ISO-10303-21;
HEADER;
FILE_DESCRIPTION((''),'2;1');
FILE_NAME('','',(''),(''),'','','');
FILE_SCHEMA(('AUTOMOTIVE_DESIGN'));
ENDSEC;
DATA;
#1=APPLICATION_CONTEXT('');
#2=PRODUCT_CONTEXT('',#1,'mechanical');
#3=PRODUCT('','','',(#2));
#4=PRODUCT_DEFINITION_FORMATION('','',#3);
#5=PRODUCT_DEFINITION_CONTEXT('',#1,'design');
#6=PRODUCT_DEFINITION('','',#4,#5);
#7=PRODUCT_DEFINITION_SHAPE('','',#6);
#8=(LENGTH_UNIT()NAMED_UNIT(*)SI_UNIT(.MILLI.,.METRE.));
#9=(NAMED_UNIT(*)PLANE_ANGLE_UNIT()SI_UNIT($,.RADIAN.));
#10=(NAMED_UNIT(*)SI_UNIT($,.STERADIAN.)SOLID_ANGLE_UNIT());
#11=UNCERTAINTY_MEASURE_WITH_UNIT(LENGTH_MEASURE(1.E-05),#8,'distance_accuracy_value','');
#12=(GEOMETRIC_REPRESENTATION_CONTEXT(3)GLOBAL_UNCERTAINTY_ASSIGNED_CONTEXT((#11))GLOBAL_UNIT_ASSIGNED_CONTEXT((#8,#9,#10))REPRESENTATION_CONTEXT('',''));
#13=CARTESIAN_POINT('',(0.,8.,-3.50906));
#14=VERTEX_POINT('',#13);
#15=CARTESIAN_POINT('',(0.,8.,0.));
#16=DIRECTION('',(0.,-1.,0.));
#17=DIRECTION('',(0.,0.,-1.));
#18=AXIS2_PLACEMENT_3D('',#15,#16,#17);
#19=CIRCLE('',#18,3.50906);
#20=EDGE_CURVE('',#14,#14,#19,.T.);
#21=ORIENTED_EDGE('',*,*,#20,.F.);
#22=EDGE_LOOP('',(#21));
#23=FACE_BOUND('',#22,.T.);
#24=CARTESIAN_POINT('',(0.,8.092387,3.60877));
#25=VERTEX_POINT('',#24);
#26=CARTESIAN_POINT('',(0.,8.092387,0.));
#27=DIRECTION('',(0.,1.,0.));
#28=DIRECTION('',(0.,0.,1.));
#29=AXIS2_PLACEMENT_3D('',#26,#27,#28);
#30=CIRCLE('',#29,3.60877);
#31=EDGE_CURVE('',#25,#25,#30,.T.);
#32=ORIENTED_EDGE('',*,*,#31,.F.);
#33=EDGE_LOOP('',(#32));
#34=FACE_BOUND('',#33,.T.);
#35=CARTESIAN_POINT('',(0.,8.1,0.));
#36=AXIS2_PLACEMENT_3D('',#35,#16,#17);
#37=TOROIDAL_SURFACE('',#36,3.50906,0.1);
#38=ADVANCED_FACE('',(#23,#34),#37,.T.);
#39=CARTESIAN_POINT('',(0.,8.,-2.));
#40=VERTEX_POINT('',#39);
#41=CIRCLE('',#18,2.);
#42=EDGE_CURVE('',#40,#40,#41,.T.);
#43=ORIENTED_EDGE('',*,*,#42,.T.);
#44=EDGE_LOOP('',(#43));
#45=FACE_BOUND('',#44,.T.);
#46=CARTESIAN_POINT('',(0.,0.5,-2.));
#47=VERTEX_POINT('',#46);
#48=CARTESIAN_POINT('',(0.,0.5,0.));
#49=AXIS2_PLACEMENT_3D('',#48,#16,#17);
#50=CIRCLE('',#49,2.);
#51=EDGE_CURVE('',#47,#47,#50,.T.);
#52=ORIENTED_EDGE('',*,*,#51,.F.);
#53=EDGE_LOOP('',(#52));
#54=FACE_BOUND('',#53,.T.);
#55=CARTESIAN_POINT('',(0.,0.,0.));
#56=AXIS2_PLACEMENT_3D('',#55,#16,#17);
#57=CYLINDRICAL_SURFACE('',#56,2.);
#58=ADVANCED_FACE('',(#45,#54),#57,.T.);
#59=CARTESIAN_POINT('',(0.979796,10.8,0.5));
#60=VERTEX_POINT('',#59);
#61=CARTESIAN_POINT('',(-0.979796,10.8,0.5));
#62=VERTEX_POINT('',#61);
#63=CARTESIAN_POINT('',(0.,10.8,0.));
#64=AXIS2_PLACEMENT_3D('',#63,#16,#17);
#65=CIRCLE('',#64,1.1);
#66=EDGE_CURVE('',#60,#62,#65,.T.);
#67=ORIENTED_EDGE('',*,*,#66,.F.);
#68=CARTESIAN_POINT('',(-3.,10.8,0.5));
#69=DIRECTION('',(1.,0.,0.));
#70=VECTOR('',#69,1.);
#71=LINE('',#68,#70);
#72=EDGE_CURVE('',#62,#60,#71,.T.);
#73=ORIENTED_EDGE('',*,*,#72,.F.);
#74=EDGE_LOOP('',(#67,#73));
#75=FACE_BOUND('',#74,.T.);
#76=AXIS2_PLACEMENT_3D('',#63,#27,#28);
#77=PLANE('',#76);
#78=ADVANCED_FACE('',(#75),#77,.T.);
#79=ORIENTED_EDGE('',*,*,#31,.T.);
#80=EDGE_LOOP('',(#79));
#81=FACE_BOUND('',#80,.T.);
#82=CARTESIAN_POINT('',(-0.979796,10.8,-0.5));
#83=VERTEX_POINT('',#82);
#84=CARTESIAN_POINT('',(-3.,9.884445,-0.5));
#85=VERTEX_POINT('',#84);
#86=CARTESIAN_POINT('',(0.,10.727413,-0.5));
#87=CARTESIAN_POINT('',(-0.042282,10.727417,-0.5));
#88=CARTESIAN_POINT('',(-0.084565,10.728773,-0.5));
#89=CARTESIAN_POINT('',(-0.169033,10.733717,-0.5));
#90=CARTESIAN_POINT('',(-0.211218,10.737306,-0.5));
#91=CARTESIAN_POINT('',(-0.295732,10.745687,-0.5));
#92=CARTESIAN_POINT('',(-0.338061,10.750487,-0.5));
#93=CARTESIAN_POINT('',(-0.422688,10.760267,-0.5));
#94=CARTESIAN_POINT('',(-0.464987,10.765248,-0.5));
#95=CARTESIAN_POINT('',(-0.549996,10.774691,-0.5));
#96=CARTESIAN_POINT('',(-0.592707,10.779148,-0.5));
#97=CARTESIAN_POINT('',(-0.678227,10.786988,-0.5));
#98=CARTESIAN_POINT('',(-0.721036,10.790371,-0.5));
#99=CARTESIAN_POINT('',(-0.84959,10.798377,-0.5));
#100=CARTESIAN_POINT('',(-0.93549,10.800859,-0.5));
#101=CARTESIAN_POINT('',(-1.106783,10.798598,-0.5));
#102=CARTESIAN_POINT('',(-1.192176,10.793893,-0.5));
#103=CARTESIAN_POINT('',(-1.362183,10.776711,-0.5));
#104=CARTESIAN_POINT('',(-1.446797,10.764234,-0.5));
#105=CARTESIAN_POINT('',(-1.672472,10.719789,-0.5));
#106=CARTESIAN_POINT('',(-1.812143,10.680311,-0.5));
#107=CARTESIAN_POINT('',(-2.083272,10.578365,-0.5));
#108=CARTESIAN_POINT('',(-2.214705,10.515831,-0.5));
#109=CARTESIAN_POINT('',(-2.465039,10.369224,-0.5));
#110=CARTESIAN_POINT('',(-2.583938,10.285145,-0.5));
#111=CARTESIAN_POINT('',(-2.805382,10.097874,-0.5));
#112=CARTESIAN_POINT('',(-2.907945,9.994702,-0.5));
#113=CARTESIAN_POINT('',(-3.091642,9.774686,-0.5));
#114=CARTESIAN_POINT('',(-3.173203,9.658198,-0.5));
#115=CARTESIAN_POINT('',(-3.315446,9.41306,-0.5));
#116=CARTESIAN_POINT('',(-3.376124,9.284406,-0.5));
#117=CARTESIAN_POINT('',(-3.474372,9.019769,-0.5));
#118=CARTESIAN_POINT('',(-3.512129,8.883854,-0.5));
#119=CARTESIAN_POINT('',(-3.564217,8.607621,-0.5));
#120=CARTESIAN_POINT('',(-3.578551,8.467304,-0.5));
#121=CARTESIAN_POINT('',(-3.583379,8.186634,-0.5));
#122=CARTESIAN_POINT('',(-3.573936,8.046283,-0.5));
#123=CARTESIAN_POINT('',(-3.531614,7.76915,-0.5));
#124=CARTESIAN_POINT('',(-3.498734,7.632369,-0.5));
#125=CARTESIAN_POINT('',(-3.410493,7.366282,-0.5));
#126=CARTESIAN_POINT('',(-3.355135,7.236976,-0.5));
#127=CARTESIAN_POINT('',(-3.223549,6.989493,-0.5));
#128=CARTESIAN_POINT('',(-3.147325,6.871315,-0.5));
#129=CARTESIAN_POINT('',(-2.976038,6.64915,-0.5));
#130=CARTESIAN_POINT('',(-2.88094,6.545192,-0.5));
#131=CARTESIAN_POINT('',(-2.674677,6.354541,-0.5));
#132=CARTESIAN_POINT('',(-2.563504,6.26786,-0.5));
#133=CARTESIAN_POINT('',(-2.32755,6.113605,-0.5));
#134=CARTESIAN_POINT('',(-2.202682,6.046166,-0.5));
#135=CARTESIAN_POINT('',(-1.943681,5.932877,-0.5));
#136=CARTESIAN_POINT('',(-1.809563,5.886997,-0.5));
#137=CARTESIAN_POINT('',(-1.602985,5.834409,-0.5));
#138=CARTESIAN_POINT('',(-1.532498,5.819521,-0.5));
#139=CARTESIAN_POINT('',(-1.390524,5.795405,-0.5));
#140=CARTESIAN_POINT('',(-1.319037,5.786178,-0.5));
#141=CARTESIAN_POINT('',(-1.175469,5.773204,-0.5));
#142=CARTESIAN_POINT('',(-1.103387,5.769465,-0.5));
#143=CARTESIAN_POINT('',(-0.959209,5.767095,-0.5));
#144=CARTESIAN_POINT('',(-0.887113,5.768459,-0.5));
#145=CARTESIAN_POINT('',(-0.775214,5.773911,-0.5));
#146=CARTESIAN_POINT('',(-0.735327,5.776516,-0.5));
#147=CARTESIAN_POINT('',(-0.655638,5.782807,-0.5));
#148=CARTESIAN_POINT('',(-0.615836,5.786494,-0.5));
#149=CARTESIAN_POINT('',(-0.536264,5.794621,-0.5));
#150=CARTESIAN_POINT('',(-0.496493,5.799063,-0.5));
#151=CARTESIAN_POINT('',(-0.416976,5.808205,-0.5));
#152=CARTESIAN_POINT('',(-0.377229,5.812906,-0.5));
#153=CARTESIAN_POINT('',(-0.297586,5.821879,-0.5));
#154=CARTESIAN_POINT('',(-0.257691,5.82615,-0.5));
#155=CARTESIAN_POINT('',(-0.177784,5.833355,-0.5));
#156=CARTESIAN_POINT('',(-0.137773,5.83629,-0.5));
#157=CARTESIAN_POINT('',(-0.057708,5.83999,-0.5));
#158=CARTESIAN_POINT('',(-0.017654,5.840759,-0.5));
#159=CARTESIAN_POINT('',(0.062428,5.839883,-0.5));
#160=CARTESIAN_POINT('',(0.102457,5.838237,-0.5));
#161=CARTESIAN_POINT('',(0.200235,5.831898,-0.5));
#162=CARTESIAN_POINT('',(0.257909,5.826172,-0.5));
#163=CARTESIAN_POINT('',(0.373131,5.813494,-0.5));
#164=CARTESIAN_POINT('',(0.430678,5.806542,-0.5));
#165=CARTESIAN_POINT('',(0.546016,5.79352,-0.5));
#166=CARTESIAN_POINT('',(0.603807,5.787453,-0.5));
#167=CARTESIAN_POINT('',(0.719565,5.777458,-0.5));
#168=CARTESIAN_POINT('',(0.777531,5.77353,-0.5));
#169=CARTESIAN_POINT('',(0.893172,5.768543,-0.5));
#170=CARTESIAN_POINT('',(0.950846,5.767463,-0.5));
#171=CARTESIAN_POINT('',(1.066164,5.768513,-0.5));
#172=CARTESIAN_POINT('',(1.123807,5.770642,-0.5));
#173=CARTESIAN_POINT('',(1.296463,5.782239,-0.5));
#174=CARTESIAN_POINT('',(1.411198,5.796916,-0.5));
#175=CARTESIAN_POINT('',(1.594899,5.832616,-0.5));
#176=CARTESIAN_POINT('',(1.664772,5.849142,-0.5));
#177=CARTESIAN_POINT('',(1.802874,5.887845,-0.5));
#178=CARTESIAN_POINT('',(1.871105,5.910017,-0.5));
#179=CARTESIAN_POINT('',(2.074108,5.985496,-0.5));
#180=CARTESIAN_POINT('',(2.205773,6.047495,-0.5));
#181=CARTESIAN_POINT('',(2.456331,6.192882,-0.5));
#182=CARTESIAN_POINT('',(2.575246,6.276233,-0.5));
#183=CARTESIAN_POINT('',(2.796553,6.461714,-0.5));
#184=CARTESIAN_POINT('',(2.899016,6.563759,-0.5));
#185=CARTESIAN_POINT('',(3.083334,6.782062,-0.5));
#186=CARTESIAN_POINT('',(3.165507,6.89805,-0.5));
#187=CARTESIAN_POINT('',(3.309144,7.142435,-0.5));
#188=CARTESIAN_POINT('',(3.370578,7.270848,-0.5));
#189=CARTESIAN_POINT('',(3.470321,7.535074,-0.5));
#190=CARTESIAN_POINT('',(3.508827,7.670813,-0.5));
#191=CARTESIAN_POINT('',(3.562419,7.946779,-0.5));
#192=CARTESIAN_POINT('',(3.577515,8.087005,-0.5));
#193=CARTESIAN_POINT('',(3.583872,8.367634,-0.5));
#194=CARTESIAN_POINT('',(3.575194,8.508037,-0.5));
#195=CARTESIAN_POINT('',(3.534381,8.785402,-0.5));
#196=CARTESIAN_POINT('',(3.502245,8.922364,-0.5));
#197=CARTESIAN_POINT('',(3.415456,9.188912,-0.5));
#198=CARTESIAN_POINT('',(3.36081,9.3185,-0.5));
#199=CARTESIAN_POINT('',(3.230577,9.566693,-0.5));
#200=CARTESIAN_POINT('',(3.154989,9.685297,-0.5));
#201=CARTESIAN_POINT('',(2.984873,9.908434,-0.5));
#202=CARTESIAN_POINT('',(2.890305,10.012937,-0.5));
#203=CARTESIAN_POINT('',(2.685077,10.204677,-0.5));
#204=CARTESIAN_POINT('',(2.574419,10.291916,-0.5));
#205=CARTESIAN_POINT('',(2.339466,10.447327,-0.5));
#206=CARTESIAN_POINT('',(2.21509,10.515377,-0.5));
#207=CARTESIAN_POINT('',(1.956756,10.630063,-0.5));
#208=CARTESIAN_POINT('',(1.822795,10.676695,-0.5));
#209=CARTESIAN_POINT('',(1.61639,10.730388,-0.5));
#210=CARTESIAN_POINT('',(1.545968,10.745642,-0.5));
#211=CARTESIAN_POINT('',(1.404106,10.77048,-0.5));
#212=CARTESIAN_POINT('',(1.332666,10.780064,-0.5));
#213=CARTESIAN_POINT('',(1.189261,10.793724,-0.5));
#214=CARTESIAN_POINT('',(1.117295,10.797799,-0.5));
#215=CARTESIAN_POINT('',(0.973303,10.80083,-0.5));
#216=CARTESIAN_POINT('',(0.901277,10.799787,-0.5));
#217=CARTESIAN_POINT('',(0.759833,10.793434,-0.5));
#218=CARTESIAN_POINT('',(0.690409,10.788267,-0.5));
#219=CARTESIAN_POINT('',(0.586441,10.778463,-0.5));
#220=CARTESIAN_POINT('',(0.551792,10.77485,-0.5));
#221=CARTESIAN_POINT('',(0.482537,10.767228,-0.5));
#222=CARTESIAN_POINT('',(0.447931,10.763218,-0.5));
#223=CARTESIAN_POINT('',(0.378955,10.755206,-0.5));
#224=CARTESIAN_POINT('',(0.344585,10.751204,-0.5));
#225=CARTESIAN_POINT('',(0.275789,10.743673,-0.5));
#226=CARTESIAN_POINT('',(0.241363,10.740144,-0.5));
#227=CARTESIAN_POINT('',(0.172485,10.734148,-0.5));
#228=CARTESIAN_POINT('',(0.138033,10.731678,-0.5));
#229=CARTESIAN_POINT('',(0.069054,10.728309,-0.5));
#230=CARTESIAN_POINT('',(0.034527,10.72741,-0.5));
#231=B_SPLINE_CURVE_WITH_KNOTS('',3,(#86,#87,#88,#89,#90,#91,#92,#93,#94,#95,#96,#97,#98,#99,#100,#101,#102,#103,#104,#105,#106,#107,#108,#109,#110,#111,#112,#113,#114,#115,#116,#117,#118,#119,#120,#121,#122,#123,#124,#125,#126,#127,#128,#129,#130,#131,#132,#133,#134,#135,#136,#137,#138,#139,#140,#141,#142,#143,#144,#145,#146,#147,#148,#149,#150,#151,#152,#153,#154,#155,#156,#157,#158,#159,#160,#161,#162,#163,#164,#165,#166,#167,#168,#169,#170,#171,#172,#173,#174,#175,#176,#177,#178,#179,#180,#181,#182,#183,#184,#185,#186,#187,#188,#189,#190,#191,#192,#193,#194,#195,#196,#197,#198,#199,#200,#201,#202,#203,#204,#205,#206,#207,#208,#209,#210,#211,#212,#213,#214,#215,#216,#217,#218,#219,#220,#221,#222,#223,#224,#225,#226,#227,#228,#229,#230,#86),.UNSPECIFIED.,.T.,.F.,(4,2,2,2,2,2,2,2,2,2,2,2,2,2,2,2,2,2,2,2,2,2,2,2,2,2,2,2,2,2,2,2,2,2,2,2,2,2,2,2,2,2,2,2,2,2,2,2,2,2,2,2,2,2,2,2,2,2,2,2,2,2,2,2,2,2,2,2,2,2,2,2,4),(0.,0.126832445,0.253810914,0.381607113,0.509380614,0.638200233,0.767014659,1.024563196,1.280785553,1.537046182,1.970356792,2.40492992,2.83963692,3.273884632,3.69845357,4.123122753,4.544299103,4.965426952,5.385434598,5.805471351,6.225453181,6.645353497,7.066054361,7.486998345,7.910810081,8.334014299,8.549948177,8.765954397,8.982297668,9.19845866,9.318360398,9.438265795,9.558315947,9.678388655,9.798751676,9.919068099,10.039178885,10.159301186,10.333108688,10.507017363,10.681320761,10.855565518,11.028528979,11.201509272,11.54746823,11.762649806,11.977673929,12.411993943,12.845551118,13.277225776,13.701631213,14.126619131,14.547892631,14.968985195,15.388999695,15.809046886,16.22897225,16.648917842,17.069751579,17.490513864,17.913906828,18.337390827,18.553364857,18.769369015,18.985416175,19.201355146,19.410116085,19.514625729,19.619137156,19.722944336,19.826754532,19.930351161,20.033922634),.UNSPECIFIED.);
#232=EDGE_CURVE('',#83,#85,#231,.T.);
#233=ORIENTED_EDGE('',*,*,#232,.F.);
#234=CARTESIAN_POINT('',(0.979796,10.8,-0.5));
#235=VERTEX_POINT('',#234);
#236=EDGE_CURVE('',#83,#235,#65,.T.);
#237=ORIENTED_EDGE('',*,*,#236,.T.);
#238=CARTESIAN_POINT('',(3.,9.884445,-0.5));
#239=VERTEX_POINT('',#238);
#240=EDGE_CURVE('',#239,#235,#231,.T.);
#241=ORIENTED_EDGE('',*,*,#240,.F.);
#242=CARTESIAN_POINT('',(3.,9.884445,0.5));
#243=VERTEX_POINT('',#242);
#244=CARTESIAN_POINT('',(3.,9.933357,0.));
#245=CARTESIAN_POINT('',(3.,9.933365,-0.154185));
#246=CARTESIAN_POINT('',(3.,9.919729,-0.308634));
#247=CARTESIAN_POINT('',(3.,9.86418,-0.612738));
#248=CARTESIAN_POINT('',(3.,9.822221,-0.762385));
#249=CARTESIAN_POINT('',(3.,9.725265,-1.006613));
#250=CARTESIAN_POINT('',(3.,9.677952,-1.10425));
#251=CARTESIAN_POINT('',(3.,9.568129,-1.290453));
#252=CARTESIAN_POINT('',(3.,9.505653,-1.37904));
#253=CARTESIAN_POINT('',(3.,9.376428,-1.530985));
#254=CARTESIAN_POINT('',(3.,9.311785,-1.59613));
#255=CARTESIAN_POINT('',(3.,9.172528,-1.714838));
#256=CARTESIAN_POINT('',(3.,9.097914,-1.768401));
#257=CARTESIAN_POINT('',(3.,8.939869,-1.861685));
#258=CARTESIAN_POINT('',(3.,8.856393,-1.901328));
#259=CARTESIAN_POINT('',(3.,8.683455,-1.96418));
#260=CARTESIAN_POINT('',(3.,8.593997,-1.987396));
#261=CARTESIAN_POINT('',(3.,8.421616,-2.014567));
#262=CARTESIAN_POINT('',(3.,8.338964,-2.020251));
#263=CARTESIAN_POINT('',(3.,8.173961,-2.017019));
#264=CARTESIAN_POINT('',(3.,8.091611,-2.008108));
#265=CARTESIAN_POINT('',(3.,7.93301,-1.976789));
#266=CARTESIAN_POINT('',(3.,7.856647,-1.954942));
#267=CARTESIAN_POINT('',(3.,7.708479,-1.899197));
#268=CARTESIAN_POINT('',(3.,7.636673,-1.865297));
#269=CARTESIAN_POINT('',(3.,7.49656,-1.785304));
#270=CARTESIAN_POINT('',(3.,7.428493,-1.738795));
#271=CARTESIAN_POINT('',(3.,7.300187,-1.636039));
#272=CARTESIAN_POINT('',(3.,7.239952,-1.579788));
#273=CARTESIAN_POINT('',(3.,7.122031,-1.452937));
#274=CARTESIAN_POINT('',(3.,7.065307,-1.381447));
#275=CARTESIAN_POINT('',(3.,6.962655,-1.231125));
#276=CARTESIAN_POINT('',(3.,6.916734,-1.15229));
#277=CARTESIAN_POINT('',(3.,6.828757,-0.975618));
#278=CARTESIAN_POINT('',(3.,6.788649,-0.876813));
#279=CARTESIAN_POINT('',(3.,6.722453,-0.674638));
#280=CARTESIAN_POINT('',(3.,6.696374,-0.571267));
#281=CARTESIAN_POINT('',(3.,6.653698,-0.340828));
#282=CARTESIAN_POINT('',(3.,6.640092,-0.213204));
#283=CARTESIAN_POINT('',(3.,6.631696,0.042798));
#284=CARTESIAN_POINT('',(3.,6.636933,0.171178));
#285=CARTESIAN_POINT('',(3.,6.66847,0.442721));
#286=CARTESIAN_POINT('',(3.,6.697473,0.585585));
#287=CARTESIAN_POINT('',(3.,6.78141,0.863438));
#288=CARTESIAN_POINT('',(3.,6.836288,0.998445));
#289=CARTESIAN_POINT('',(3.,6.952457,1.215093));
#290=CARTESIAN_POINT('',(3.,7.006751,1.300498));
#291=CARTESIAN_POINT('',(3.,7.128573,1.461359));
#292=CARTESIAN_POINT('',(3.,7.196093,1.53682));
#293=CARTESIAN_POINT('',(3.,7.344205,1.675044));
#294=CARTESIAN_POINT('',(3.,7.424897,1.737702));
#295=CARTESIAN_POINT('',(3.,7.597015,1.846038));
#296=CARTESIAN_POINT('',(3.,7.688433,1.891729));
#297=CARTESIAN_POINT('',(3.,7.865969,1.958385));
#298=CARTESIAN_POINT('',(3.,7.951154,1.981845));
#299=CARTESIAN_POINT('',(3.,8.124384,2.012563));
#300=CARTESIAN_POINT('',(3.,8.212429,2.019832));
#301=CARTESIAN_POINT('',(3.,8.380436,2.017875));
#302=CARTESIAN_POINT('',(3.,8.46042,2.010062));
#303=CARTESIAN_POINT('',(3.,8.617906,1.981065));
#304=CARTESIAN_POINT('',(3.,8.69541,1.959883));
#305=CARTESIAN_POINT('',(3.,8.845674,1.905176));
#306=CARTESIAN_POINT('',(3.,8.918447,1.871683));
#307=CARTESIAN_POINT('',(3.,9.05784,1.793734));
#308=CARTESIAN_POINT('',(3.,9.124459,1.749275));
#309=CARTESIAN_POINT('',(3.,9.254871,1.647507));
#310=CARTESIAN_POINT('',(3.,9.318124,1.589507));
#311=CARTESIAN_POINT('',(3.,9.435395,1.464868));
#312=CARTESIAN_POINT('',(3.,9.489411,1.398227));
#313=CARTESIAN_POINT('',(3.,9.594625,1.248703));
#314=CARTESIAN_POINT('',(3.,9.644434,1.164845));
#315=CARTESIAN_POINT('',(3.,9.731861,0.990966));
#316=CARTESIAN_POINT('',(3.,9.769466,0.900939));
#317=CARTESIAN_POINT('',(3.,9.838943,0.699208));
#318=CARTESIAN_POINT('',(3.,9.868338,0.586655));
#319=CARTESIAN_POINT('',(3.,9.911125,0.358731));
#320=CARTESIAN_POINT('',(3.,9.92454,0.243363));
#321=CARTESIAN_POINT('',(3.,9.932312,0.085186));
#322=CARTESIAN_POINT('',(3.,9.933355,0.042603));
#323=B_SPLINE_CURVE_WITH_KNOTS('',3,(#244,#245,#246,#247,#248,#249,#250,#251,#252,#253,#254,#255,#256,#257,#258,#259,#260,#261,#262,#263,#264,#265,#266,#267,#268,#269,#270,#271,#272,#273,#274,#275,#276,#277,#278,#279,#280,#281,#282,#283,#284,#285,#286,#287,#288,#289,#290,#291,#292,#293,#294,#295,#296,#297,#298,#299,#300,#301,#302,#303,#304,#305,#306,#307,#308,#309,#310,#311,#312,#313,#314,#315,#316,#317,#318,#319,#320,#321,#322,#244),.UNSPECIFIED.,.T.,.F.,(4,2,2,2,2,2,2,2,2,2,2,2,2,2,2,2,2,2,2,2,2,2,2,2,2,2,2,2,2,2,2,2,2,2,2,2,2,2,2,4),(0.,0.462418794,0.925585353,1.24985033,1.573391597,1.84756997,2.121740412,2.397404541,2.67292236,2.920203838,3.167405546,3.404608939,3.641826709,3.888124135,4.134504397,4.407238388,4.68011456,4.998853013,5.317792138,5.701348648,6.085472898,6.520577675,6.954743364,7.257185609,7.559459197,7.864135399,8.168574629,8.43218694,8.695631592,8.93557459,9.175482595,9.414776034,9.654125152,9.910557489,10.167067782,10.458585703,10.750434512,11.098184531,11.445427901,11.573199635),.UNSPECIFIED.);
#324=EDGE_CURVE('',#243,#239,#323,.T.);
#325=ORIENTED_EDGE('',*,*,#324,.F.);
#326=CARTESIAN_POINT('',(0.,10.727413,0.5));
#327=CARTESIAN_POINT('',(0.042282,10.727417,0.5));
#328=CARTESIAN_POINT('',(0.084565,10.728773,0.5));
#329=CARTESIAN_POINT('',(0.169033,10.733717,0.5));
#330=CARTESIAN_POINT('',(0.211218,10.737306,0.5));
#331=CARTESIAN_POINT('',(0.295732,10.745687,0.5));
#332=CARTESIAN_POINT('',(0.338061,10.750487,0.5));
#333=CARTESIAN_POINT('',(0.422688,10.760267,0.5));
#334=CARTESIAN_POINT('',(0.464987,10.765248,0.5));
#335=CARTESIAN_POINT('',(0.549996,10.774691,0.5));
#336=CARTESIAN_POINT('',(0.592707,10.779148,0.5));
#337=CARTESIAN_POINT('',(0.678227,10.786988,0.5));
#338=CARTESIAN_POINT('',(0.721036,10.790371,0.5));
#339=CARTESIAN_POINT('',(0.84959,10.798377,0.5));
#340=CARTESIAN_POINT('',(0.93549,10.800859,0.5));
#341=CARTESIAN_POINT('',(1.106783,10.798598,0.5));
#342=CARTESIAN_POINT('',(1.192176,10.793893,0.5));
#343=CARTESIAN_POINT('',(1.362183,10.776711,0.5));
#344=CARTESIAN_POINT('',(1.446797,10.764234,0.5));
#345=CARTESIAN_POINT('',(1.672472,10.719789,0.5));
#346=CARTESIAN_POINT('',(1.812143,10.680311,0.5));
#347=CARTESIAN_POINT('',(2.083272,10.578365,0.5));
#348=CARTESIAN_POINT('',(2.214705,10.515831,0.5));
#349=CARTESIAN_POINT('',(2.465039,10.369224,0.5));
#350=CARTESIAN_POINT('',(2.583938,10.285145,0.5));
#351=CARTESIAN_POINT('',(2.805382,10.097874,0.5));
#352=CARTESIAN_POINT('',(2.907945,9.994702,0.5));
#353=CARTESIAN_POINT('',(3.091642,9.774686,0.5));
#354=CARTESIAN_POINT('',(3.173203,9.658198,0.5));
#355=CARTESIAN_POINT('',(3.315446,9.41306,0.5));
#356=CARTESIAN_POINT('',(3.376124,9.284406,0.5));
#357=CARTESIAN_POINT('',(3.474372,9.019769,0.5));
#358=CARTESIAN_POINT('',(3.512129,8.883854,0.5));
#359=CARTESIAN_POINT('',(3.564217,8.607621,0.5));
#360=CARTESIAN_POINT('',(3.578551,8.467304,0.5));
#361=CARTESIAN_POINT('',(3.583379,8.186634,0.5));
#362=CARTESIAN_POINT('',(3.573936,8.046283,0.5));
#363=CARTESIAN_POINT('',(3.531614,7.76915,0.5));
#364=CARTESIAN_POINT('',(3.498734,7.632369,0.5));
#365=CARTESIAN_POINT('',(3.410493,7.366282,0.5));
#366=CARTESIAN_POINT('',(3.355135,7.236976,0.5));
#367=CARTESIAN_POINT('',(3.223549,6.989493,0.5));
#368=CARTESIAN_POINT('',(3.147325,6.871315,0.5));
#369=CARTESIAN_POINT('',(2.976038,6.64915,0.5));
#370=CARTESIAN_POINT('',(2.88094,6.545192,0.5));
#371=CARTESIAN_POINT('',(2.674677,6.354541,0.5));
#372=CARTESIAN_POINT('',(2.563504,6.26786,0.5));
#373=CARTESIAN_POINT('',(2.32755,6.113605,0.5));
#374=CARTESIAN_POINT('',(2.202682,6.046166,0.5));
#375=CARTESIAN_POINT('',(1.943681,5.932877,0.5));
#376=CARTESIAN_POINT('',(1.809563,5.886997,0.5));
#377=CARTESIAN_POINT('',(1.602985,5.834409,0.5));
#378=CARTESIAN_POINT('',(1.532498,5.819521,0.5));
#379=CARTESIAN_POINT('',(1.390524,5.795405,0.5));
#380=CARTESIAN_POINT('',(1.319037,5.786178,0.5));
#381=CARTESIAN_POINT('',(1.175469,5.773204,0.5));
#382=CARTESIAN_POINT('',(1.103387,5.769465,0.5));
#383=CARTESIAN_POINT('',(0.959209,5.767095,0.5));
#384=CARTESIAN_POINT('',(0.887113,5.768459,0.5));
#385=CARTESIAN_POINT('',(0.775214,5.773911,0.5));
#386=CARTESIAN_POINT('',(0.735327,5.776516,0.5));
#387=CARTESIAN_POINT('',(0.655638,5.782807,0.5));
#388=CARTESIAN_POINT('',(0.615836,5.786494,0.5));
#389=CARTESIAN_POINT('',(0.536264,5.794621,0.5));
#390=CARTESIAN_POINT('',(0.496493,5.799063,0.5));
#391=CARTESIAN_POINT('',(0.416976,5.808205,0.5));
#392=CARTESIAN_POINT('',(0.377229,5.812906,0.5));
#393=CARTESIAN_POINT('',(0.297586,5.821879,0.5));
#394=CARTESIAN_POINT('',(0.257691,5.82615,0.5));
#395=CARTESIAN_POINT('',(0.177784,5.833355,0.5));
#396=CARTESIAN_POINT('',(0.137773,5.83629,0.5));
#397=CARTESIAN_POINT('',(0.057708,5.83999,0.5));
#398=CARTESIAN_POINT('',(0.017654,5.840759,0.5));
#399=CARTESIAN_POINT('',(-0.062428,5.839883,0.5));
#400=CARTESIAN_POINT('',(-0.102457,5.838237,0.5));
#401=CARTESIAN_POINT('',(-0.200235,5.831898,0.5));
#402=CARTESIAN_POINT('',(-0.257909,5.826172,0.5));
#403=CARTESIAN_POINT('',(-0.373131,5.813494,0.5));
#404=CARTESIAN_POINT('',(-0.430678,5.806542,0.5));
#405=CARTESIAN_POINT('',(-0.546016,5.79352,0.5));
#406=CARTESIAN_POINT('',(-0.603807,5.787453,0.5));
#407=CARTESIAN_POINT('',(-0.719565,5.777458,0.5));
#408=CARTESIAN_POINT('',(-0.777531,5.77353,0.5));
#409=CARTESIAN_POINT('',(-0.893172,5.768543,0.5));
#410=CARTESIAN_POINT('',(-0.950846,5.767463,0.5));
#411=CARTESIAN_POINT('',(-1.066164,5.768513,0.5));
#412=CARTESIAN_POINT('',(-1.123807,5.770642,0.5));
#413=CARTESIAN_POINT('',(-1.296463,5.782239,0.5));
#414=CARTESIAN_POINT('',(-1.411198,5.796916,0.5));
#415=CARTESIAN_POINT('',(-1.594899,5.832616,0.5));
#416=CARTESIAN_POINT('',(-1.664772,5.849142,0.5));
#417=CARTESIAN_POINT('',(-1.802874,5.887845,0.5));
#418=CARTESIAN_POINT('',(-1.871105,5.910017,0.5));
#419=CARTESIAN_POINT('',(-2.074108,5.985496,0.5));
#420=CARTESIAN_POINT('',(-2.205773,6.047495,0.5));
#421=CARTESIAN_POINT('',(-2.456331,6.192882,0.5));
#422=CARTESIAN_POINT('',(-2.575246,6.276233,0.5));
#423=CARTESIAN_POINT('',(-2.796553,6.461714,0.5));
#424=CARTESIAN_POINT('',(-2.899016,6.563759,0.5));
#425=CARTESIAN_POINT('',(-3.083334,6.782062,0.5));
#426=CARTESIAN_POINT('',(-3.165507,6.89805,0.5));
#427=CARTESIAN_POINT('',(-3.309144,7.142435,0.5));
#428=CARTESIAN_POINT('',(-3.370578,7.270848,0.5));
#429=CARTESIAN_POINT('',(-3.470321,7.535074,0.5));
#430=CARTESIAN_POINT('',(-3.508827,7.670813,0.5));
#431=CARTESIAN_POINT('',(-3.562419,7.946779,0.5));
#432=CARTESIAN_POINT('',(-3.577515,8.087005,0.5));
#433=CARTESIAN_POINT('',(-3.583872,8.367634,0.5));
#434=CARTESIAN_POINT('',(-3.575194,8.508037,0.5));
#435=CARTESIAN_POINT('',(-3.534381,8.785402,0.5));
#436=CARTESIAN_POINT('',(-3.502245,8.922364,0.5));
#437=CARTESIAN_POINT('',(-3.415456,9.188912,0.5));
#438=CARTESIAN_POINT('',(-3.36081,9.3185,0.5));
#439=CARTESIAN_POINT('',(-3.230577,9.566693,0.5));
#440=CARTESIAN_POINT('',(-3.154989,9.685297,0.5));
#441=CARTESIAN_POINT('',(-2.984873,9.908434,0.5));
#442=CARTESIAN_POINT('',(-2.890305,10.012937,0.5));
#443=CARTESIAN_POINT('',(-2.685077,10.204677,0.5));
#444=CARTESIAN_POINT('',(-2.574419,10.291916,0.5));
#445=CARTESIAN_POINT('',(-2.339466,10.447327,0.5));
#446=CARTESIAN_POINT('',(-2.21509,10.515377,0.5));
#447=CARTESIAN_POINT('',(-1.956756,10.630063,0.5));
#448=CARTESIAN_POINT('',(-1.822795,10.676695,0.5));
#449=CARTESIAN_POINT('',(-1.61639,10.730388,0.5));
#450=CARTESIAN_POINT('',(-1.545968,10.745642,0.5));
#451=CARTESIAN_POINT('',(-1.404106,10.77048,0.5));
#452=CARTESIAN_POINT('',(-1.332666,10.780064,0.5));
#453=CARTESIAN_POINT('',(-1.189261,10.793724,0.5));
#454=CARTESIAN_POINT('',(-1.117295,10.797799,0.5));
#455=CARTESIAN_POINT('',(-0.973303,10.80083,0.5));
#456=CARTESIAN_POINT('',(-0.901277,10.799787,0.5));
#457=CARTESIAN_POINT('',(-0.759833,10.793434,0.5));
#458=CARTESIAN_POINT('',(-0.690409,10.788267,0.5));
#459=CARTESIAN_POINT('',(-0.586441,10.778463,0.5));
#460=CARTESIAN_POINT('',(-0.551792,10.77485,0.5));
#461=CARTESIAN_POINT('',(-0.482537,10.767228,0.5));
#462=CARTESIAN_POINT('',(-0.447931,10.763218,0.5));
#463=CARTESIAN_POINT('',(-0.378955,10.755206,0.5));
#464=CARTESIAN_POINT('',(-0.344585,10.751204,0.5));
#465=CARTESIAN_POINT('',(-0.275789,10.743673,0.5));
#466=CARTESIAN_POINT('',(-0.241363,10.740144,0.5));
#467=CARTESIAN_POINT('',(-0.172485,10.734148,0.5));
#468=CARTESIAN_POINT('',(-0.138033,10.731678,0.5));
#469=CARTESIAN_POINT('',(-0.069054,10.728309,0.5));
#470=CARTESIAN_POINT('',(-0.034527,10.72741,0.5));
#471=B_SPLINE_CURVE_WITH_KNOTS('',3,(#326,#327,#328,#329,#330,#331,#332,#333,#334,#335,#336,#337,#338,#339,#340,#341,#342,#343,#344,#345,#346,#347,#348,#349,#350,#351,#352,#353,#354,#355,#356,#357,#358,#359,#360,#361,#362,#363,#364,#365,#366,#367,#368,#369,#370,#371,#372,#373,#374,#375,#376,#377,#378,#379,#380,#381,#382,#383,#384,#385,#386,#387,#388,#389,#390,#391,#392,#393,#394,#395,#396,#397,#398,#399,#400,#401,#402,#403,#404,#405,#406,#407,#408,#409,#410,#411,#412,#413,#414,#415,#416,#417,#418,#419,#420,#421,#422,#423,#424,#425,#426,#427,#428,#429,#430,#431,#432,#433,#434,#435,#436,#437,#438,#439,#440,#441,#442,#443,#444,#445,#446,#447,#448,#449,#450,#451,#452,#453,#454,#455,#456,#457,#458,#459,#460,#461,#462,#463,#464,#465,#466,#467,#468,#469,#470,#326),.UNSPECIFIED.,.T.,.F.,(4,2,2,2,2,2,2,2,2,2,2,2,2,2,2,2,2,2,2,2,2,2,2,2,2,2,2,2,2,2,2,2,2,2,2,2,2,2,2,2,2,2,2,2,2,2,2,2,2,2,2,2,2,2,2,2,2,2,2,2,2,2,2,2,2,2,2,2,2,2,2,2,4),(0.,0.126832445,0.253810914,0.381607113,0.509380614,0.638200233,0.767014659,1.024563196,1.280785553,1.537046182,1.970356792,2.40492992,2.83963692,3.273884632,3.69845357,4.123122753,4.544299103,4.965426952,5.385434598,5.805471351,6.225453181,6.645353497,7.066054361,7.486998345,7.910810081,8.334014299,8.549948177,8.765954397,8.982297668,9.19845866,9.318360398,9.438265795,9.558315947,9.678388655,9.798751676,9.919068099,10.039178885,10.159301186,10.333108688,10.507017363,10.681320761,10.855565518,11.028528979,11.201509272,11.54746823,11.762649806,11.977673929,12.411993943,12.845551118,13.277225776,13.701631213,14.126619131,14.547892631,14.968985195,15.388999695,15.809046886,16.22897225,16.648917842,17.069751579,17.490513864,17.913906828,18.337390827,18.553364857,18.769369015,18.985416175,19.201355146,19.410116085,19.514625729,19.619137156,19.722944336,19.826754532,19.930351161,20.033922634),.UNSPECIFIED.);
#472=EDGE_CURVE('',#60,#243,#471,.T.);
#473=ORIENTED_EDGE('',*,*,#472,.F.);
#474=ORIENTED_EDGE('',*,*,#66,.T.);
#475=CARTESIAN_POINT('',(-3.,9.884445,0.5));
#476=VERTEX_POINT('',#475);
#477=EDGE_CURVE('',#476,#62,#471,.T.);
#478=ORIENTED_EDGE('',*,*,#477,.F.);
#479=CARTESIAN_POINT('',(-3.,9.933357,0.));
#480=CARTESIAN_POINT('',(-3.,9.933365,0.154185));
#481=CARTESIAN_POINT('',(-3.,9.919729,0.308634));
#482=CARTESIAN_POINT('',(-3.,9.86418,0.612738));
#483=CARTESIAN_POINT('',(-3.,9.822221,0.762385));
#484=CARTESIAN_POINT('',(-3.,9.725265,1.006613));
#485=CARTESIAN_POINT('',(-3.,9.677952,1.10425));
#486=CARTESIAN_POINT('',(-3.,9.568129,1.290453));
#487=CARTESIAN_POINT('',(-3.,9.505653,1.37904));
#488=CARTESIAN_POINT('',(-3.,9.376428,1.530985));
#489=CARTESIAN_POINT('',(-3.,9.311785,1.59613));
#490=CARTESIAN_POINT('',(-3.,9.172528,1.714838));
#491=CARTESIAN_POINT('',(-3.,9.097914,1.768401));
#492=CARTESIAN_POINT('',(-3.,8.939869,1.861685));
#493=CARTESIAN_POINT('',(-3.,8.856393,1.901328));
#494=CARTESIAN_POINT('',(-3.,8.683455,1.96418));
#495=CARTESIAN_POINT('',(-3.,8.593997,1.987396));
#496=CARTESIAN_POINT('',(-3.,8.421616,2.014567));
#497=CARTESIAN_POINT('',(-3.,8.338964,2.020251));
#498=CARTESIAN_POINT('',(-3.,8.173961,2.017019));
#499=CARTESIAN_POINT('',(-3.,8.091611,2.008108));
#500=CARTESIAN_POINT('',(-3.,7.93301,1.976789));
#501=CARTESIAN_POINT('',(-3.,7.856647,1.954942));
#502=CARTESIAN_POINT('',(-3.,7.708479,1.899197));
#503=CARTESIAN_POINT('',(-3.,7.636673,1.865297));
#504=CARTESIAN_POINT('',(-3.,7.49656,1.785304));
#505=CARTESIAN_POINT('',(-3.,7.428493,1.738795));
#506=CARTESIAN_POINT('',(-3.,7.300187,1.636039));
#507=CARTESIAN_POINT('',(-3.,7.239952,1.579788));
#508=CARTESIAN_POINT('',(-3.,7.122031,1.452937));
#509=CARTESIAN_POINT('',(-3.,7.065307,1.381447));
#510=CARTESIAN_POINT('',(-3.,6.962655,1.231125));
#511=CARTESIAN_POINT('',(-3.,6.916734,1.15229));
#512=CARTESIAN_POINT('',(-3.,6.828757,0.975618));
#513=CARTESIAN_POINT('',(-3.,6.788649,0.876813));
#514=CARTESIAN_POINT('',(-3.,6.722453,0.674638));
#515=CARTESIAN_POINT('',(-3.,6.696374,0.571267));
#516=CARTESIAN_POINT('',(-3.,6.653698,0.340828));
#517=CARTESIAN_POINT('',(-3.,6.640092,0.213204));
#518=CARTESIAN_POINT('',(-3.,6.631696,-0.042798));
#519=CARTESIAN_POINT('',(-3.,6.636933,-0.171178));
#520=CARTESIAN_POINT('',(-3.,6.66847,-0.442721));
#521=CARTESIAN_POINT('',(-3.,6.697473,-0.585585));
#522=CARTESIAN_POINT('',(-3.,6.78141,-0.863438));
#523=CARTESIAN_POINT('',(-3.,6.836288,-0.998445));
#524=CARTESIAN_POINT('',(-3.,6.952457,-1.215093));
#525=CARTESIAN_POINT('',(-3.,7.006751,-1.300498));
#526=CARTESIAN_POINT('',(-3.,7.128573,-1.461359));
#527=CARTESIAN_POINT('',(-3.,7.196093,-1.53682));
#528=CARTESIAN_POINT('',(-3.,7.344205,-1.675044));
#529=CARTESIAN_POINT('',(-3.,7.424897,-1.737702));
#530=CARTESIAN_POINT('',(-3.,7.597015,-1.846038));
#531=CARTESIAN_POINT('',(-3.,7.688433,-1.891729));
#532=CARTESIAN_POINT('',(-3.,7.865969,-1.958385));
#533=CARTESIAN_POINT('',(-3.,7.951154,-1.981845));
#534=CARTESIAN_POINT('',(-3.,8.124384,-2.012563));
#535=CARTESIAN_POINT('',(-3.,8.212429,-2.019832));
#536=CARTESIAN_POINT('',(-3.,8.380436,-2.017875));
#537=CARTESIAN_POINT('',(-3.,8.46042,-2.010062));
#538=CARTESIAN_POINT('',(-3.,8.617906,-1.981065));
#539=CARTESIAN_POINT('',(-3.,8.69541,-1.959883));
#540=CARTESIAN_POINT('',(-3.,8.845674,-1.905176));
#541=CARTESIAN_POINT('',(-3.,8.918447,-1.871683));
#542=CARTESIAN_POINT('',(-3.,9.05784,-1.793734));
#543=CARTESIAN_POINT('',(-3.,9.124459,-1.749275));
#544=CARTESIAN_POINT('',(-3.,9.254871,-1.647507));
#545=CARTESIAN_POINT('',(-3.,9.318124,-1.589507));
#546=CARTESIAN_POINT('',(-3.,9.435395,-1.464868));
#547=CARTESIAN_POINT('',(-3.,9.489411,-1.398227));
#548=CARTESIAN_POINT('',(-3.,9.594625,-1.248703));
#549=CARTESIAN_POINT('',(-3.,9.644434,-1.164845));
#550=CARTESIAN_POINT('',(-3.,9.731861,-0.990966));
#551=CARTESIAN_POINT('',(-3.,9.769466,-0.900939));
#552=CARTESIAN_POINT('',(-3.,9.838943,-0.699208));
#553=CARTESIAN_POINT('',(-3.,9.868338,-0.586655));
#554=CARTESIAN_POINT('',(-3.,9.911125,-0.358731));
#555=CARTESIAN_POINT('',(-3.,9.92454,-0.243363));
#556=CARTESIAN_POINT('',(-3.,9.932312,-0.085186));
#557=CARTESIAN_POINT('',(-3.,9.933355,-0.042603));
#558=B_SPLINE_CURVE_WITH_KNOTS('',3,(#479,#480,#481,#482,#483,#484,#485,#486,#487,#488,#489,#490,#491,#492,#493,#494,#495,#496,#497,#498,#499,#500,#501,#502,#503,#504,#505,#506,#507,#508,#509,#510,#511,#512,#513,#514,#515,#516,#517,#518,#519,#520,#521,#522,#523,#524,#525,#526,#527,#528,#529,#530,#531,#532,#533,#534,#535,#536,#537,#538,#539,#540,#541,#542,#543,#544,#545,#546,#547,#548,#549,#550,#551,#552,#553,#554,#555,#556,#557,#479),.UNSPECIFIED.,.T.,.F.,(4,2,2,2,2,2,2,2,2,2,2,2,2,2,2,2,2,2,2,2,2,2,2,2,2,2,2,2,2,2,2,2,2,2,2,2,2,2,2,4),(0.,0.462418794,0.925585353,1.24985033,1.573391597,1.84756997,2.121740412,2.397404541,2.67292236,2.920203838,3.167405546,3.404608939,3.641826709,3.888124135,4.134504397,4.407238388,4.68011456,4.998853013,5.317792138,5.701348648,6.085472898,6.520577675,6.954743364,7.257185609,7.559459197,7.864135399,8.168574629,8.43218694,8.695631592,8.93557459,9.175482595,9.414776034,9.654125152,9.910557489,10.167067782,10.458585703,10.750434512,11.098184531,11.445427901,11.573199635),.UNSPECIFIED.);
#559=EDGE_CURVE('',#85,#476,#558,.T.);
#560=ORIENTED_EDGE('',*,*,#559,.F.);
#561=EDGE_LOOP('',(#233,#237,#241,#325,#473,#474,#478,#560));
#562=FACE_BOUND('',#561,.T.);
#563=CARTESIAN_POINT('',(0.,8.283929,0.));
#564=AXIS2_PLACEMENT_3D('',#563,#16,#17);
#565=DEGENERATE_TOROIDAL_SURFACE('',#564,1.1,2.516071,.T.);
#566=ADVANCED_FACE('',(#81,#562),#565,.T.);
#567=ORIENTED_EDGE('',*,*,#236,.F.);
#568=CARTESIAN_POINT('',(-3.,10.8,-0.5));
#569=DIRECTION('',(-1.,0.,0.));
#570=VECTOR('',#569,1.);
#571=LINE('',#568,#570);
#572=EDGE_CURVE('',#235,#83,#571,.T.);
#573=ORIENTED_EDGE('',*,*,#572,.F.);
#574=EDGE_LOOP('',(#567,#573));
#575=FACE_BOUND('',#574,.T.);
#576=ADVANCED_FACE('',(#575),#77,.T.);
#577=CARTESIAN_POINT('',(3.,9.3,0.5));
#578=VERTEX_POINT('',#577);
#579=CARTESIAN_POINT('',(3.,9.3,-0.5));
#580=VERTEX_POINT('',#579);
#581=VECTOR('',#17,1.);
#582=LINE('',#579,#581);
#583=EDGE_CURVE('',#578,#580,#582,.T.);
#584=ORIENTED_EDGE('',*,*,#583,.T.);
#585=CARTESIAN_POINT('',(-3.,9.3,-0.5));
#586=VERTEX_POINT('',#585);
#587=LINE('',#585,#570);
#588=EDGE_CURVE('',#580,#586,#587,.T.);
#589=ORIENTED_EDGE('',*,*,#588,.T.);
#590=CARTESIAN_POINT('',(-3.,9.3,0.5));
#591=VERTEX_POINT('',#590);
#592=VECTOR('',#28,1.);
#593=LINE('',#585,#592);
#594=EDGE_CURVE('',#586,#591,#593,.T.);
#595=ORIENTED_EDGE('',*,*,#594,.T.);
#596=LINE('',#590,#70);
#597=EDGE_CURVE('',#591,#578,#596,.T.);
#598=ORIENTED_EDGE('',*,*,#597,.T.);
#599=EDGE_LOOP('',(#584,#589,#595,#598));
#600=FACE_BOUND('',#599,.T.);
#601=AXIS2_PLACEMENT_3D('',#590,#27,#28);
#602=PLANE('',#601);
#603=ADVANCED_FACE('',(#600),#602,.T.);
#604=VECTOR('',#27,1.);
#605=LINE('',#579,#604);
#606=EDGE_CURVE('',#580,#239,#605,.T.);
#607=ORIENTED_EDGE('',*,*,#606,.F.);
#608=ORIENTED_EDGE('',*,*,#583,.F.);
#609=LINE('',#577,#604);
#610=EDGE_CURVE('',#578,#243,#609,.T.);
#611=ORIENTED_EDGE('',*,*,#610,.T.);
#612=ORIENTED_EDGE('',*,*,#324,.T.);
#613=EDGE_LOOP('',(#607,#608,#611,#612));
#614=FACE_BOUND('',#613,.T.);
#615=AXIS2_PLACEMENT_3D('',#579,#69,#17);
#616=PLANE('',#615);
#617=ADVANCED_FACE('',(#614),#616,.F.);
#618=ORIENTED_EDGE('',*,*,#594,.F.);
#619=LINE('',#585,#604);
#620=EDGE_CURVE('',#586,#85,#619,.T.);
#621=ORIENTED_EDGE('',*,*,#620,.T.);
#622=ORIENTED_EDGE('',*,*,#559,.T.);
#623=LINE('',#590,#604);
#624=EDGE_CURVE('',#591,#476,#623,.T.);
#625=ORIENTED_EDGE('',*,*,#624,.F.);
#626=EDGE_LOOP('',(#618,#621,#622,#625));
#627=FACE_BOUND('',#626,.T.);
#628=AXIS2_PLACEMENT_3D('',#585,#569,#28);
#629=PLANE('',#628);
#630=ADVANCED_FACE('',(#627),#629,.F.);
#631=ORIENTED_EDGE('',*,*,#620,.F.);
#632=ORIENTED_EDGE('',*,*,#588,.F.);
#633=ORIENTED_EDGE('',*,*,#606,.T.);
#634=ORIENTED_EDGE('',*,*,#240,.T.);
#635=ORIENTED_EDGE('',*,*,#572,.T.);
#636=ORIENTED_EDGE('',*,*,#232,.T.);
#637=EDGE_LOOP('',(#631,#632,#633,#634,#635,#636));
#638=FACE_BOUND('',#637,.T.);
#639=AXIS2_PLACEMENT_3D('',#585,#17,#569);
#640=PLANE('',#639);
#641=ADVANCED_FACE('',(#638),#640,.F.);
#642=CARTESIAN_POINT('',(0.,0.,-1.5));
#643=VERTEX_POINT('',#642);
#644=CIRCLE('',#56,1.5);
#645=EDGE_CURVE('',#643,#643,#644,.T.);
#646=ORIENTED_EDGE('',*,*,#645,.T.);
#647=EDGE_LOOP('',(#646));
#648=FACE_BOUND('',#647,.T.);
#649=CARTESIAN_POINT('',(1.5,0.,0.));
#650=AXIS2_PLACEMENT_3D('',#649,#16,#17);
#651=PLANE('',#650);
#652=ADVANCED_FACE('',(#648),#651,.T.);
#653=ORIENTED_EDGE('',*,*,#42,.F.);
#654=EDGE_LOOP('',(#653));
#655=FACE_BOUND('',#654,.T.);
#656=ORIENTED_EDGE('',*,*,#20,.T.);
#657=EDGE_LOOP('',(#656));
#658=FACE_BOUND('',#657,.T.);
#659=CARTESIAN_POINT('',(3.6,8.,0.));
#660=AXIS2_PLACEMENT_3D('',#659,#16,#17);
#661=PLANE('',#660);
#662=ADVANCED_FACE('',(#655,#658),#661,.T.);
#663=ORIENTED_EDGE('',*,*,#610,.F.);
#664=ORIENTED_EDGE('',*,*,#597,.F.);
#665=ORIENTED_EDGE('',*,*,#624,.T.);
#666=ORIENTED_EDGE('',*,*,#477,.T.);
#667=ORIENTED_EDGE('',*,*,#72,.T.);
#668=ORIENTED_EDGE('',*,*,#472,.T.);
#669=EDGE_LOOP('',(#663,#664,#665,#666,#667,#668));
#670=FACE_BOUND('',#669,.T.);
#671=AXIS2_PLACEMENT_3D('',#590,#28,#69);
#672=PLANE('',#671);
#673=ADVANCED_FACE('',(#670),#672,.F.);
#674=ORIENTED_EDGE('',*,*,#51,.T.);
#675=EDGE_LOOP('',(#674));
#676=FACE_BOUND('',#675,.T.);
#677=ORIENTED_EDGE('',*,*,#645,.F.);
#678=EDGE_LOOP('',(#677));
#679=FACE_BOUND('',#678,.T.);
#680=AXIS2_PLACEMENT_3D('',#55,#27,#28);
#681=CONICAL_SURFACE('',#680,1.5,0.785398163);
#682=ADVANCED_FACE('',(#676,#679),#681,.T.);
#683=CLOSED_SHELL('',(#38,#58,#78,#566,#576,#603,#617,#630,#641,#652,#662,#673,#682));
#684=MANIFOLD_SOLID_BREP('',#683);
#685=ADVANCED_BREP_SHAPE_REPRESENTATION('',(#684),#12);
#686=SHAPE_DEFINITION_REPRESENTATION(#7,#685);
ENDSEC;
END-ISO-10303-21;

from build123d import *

# Parameters (mm, degrees)
FILLET_1_R          = 0.1
SKETCH_3_W          = 6
SKETCH_3_H          = 1
CUT_EXTRUDE_2_DEPTH = 1.5


with BuildPart() as part:
    # Эскиз1 → Повернуть1 (revolve)
    with BuildSketch(Plane.XY):
        with BuildLine():
            Line((3.6, 8), (2, 8))
            Line((2, 8), (2, 0.5))
            Line((2, 0.5), (1.5, 0))
            Line((1.5, 0), (0, 0))
            Line((0, 0), (0, 10.8))
            Line((0, 10.8), (1.1, 10.8))
            ThreePointArc((1.1, 10.8), (2.976832438, 9.95967182), (3.6, 8))
        make_face()
    revolve(axis=Axis((0, 0, 0), (0, 1, 0)))

    # Скругление1
    fillet_1_edges = [part.edges().sort_by_distance(p)[0] for p in [
        (-3.6, 8, 0),
    ]]
    fillet(fillet_1_edges, radius=FILLET_1_R)

    # Эскиз3 → Вырез-Вытянуть2 (cut)
    with BuildSketch(Plane(origin=(0, 10.8, 0), x_dir=(-1, 0, 0), z_dir=(0, 1, 0))):
        Rectangle(SKETCH_3_W, SKETCH_3_H)
    extrude(amount=-CUT_EXTRUDE_2_DEPTH, mode=Mode.SUBTRACT)


solid = part.part
